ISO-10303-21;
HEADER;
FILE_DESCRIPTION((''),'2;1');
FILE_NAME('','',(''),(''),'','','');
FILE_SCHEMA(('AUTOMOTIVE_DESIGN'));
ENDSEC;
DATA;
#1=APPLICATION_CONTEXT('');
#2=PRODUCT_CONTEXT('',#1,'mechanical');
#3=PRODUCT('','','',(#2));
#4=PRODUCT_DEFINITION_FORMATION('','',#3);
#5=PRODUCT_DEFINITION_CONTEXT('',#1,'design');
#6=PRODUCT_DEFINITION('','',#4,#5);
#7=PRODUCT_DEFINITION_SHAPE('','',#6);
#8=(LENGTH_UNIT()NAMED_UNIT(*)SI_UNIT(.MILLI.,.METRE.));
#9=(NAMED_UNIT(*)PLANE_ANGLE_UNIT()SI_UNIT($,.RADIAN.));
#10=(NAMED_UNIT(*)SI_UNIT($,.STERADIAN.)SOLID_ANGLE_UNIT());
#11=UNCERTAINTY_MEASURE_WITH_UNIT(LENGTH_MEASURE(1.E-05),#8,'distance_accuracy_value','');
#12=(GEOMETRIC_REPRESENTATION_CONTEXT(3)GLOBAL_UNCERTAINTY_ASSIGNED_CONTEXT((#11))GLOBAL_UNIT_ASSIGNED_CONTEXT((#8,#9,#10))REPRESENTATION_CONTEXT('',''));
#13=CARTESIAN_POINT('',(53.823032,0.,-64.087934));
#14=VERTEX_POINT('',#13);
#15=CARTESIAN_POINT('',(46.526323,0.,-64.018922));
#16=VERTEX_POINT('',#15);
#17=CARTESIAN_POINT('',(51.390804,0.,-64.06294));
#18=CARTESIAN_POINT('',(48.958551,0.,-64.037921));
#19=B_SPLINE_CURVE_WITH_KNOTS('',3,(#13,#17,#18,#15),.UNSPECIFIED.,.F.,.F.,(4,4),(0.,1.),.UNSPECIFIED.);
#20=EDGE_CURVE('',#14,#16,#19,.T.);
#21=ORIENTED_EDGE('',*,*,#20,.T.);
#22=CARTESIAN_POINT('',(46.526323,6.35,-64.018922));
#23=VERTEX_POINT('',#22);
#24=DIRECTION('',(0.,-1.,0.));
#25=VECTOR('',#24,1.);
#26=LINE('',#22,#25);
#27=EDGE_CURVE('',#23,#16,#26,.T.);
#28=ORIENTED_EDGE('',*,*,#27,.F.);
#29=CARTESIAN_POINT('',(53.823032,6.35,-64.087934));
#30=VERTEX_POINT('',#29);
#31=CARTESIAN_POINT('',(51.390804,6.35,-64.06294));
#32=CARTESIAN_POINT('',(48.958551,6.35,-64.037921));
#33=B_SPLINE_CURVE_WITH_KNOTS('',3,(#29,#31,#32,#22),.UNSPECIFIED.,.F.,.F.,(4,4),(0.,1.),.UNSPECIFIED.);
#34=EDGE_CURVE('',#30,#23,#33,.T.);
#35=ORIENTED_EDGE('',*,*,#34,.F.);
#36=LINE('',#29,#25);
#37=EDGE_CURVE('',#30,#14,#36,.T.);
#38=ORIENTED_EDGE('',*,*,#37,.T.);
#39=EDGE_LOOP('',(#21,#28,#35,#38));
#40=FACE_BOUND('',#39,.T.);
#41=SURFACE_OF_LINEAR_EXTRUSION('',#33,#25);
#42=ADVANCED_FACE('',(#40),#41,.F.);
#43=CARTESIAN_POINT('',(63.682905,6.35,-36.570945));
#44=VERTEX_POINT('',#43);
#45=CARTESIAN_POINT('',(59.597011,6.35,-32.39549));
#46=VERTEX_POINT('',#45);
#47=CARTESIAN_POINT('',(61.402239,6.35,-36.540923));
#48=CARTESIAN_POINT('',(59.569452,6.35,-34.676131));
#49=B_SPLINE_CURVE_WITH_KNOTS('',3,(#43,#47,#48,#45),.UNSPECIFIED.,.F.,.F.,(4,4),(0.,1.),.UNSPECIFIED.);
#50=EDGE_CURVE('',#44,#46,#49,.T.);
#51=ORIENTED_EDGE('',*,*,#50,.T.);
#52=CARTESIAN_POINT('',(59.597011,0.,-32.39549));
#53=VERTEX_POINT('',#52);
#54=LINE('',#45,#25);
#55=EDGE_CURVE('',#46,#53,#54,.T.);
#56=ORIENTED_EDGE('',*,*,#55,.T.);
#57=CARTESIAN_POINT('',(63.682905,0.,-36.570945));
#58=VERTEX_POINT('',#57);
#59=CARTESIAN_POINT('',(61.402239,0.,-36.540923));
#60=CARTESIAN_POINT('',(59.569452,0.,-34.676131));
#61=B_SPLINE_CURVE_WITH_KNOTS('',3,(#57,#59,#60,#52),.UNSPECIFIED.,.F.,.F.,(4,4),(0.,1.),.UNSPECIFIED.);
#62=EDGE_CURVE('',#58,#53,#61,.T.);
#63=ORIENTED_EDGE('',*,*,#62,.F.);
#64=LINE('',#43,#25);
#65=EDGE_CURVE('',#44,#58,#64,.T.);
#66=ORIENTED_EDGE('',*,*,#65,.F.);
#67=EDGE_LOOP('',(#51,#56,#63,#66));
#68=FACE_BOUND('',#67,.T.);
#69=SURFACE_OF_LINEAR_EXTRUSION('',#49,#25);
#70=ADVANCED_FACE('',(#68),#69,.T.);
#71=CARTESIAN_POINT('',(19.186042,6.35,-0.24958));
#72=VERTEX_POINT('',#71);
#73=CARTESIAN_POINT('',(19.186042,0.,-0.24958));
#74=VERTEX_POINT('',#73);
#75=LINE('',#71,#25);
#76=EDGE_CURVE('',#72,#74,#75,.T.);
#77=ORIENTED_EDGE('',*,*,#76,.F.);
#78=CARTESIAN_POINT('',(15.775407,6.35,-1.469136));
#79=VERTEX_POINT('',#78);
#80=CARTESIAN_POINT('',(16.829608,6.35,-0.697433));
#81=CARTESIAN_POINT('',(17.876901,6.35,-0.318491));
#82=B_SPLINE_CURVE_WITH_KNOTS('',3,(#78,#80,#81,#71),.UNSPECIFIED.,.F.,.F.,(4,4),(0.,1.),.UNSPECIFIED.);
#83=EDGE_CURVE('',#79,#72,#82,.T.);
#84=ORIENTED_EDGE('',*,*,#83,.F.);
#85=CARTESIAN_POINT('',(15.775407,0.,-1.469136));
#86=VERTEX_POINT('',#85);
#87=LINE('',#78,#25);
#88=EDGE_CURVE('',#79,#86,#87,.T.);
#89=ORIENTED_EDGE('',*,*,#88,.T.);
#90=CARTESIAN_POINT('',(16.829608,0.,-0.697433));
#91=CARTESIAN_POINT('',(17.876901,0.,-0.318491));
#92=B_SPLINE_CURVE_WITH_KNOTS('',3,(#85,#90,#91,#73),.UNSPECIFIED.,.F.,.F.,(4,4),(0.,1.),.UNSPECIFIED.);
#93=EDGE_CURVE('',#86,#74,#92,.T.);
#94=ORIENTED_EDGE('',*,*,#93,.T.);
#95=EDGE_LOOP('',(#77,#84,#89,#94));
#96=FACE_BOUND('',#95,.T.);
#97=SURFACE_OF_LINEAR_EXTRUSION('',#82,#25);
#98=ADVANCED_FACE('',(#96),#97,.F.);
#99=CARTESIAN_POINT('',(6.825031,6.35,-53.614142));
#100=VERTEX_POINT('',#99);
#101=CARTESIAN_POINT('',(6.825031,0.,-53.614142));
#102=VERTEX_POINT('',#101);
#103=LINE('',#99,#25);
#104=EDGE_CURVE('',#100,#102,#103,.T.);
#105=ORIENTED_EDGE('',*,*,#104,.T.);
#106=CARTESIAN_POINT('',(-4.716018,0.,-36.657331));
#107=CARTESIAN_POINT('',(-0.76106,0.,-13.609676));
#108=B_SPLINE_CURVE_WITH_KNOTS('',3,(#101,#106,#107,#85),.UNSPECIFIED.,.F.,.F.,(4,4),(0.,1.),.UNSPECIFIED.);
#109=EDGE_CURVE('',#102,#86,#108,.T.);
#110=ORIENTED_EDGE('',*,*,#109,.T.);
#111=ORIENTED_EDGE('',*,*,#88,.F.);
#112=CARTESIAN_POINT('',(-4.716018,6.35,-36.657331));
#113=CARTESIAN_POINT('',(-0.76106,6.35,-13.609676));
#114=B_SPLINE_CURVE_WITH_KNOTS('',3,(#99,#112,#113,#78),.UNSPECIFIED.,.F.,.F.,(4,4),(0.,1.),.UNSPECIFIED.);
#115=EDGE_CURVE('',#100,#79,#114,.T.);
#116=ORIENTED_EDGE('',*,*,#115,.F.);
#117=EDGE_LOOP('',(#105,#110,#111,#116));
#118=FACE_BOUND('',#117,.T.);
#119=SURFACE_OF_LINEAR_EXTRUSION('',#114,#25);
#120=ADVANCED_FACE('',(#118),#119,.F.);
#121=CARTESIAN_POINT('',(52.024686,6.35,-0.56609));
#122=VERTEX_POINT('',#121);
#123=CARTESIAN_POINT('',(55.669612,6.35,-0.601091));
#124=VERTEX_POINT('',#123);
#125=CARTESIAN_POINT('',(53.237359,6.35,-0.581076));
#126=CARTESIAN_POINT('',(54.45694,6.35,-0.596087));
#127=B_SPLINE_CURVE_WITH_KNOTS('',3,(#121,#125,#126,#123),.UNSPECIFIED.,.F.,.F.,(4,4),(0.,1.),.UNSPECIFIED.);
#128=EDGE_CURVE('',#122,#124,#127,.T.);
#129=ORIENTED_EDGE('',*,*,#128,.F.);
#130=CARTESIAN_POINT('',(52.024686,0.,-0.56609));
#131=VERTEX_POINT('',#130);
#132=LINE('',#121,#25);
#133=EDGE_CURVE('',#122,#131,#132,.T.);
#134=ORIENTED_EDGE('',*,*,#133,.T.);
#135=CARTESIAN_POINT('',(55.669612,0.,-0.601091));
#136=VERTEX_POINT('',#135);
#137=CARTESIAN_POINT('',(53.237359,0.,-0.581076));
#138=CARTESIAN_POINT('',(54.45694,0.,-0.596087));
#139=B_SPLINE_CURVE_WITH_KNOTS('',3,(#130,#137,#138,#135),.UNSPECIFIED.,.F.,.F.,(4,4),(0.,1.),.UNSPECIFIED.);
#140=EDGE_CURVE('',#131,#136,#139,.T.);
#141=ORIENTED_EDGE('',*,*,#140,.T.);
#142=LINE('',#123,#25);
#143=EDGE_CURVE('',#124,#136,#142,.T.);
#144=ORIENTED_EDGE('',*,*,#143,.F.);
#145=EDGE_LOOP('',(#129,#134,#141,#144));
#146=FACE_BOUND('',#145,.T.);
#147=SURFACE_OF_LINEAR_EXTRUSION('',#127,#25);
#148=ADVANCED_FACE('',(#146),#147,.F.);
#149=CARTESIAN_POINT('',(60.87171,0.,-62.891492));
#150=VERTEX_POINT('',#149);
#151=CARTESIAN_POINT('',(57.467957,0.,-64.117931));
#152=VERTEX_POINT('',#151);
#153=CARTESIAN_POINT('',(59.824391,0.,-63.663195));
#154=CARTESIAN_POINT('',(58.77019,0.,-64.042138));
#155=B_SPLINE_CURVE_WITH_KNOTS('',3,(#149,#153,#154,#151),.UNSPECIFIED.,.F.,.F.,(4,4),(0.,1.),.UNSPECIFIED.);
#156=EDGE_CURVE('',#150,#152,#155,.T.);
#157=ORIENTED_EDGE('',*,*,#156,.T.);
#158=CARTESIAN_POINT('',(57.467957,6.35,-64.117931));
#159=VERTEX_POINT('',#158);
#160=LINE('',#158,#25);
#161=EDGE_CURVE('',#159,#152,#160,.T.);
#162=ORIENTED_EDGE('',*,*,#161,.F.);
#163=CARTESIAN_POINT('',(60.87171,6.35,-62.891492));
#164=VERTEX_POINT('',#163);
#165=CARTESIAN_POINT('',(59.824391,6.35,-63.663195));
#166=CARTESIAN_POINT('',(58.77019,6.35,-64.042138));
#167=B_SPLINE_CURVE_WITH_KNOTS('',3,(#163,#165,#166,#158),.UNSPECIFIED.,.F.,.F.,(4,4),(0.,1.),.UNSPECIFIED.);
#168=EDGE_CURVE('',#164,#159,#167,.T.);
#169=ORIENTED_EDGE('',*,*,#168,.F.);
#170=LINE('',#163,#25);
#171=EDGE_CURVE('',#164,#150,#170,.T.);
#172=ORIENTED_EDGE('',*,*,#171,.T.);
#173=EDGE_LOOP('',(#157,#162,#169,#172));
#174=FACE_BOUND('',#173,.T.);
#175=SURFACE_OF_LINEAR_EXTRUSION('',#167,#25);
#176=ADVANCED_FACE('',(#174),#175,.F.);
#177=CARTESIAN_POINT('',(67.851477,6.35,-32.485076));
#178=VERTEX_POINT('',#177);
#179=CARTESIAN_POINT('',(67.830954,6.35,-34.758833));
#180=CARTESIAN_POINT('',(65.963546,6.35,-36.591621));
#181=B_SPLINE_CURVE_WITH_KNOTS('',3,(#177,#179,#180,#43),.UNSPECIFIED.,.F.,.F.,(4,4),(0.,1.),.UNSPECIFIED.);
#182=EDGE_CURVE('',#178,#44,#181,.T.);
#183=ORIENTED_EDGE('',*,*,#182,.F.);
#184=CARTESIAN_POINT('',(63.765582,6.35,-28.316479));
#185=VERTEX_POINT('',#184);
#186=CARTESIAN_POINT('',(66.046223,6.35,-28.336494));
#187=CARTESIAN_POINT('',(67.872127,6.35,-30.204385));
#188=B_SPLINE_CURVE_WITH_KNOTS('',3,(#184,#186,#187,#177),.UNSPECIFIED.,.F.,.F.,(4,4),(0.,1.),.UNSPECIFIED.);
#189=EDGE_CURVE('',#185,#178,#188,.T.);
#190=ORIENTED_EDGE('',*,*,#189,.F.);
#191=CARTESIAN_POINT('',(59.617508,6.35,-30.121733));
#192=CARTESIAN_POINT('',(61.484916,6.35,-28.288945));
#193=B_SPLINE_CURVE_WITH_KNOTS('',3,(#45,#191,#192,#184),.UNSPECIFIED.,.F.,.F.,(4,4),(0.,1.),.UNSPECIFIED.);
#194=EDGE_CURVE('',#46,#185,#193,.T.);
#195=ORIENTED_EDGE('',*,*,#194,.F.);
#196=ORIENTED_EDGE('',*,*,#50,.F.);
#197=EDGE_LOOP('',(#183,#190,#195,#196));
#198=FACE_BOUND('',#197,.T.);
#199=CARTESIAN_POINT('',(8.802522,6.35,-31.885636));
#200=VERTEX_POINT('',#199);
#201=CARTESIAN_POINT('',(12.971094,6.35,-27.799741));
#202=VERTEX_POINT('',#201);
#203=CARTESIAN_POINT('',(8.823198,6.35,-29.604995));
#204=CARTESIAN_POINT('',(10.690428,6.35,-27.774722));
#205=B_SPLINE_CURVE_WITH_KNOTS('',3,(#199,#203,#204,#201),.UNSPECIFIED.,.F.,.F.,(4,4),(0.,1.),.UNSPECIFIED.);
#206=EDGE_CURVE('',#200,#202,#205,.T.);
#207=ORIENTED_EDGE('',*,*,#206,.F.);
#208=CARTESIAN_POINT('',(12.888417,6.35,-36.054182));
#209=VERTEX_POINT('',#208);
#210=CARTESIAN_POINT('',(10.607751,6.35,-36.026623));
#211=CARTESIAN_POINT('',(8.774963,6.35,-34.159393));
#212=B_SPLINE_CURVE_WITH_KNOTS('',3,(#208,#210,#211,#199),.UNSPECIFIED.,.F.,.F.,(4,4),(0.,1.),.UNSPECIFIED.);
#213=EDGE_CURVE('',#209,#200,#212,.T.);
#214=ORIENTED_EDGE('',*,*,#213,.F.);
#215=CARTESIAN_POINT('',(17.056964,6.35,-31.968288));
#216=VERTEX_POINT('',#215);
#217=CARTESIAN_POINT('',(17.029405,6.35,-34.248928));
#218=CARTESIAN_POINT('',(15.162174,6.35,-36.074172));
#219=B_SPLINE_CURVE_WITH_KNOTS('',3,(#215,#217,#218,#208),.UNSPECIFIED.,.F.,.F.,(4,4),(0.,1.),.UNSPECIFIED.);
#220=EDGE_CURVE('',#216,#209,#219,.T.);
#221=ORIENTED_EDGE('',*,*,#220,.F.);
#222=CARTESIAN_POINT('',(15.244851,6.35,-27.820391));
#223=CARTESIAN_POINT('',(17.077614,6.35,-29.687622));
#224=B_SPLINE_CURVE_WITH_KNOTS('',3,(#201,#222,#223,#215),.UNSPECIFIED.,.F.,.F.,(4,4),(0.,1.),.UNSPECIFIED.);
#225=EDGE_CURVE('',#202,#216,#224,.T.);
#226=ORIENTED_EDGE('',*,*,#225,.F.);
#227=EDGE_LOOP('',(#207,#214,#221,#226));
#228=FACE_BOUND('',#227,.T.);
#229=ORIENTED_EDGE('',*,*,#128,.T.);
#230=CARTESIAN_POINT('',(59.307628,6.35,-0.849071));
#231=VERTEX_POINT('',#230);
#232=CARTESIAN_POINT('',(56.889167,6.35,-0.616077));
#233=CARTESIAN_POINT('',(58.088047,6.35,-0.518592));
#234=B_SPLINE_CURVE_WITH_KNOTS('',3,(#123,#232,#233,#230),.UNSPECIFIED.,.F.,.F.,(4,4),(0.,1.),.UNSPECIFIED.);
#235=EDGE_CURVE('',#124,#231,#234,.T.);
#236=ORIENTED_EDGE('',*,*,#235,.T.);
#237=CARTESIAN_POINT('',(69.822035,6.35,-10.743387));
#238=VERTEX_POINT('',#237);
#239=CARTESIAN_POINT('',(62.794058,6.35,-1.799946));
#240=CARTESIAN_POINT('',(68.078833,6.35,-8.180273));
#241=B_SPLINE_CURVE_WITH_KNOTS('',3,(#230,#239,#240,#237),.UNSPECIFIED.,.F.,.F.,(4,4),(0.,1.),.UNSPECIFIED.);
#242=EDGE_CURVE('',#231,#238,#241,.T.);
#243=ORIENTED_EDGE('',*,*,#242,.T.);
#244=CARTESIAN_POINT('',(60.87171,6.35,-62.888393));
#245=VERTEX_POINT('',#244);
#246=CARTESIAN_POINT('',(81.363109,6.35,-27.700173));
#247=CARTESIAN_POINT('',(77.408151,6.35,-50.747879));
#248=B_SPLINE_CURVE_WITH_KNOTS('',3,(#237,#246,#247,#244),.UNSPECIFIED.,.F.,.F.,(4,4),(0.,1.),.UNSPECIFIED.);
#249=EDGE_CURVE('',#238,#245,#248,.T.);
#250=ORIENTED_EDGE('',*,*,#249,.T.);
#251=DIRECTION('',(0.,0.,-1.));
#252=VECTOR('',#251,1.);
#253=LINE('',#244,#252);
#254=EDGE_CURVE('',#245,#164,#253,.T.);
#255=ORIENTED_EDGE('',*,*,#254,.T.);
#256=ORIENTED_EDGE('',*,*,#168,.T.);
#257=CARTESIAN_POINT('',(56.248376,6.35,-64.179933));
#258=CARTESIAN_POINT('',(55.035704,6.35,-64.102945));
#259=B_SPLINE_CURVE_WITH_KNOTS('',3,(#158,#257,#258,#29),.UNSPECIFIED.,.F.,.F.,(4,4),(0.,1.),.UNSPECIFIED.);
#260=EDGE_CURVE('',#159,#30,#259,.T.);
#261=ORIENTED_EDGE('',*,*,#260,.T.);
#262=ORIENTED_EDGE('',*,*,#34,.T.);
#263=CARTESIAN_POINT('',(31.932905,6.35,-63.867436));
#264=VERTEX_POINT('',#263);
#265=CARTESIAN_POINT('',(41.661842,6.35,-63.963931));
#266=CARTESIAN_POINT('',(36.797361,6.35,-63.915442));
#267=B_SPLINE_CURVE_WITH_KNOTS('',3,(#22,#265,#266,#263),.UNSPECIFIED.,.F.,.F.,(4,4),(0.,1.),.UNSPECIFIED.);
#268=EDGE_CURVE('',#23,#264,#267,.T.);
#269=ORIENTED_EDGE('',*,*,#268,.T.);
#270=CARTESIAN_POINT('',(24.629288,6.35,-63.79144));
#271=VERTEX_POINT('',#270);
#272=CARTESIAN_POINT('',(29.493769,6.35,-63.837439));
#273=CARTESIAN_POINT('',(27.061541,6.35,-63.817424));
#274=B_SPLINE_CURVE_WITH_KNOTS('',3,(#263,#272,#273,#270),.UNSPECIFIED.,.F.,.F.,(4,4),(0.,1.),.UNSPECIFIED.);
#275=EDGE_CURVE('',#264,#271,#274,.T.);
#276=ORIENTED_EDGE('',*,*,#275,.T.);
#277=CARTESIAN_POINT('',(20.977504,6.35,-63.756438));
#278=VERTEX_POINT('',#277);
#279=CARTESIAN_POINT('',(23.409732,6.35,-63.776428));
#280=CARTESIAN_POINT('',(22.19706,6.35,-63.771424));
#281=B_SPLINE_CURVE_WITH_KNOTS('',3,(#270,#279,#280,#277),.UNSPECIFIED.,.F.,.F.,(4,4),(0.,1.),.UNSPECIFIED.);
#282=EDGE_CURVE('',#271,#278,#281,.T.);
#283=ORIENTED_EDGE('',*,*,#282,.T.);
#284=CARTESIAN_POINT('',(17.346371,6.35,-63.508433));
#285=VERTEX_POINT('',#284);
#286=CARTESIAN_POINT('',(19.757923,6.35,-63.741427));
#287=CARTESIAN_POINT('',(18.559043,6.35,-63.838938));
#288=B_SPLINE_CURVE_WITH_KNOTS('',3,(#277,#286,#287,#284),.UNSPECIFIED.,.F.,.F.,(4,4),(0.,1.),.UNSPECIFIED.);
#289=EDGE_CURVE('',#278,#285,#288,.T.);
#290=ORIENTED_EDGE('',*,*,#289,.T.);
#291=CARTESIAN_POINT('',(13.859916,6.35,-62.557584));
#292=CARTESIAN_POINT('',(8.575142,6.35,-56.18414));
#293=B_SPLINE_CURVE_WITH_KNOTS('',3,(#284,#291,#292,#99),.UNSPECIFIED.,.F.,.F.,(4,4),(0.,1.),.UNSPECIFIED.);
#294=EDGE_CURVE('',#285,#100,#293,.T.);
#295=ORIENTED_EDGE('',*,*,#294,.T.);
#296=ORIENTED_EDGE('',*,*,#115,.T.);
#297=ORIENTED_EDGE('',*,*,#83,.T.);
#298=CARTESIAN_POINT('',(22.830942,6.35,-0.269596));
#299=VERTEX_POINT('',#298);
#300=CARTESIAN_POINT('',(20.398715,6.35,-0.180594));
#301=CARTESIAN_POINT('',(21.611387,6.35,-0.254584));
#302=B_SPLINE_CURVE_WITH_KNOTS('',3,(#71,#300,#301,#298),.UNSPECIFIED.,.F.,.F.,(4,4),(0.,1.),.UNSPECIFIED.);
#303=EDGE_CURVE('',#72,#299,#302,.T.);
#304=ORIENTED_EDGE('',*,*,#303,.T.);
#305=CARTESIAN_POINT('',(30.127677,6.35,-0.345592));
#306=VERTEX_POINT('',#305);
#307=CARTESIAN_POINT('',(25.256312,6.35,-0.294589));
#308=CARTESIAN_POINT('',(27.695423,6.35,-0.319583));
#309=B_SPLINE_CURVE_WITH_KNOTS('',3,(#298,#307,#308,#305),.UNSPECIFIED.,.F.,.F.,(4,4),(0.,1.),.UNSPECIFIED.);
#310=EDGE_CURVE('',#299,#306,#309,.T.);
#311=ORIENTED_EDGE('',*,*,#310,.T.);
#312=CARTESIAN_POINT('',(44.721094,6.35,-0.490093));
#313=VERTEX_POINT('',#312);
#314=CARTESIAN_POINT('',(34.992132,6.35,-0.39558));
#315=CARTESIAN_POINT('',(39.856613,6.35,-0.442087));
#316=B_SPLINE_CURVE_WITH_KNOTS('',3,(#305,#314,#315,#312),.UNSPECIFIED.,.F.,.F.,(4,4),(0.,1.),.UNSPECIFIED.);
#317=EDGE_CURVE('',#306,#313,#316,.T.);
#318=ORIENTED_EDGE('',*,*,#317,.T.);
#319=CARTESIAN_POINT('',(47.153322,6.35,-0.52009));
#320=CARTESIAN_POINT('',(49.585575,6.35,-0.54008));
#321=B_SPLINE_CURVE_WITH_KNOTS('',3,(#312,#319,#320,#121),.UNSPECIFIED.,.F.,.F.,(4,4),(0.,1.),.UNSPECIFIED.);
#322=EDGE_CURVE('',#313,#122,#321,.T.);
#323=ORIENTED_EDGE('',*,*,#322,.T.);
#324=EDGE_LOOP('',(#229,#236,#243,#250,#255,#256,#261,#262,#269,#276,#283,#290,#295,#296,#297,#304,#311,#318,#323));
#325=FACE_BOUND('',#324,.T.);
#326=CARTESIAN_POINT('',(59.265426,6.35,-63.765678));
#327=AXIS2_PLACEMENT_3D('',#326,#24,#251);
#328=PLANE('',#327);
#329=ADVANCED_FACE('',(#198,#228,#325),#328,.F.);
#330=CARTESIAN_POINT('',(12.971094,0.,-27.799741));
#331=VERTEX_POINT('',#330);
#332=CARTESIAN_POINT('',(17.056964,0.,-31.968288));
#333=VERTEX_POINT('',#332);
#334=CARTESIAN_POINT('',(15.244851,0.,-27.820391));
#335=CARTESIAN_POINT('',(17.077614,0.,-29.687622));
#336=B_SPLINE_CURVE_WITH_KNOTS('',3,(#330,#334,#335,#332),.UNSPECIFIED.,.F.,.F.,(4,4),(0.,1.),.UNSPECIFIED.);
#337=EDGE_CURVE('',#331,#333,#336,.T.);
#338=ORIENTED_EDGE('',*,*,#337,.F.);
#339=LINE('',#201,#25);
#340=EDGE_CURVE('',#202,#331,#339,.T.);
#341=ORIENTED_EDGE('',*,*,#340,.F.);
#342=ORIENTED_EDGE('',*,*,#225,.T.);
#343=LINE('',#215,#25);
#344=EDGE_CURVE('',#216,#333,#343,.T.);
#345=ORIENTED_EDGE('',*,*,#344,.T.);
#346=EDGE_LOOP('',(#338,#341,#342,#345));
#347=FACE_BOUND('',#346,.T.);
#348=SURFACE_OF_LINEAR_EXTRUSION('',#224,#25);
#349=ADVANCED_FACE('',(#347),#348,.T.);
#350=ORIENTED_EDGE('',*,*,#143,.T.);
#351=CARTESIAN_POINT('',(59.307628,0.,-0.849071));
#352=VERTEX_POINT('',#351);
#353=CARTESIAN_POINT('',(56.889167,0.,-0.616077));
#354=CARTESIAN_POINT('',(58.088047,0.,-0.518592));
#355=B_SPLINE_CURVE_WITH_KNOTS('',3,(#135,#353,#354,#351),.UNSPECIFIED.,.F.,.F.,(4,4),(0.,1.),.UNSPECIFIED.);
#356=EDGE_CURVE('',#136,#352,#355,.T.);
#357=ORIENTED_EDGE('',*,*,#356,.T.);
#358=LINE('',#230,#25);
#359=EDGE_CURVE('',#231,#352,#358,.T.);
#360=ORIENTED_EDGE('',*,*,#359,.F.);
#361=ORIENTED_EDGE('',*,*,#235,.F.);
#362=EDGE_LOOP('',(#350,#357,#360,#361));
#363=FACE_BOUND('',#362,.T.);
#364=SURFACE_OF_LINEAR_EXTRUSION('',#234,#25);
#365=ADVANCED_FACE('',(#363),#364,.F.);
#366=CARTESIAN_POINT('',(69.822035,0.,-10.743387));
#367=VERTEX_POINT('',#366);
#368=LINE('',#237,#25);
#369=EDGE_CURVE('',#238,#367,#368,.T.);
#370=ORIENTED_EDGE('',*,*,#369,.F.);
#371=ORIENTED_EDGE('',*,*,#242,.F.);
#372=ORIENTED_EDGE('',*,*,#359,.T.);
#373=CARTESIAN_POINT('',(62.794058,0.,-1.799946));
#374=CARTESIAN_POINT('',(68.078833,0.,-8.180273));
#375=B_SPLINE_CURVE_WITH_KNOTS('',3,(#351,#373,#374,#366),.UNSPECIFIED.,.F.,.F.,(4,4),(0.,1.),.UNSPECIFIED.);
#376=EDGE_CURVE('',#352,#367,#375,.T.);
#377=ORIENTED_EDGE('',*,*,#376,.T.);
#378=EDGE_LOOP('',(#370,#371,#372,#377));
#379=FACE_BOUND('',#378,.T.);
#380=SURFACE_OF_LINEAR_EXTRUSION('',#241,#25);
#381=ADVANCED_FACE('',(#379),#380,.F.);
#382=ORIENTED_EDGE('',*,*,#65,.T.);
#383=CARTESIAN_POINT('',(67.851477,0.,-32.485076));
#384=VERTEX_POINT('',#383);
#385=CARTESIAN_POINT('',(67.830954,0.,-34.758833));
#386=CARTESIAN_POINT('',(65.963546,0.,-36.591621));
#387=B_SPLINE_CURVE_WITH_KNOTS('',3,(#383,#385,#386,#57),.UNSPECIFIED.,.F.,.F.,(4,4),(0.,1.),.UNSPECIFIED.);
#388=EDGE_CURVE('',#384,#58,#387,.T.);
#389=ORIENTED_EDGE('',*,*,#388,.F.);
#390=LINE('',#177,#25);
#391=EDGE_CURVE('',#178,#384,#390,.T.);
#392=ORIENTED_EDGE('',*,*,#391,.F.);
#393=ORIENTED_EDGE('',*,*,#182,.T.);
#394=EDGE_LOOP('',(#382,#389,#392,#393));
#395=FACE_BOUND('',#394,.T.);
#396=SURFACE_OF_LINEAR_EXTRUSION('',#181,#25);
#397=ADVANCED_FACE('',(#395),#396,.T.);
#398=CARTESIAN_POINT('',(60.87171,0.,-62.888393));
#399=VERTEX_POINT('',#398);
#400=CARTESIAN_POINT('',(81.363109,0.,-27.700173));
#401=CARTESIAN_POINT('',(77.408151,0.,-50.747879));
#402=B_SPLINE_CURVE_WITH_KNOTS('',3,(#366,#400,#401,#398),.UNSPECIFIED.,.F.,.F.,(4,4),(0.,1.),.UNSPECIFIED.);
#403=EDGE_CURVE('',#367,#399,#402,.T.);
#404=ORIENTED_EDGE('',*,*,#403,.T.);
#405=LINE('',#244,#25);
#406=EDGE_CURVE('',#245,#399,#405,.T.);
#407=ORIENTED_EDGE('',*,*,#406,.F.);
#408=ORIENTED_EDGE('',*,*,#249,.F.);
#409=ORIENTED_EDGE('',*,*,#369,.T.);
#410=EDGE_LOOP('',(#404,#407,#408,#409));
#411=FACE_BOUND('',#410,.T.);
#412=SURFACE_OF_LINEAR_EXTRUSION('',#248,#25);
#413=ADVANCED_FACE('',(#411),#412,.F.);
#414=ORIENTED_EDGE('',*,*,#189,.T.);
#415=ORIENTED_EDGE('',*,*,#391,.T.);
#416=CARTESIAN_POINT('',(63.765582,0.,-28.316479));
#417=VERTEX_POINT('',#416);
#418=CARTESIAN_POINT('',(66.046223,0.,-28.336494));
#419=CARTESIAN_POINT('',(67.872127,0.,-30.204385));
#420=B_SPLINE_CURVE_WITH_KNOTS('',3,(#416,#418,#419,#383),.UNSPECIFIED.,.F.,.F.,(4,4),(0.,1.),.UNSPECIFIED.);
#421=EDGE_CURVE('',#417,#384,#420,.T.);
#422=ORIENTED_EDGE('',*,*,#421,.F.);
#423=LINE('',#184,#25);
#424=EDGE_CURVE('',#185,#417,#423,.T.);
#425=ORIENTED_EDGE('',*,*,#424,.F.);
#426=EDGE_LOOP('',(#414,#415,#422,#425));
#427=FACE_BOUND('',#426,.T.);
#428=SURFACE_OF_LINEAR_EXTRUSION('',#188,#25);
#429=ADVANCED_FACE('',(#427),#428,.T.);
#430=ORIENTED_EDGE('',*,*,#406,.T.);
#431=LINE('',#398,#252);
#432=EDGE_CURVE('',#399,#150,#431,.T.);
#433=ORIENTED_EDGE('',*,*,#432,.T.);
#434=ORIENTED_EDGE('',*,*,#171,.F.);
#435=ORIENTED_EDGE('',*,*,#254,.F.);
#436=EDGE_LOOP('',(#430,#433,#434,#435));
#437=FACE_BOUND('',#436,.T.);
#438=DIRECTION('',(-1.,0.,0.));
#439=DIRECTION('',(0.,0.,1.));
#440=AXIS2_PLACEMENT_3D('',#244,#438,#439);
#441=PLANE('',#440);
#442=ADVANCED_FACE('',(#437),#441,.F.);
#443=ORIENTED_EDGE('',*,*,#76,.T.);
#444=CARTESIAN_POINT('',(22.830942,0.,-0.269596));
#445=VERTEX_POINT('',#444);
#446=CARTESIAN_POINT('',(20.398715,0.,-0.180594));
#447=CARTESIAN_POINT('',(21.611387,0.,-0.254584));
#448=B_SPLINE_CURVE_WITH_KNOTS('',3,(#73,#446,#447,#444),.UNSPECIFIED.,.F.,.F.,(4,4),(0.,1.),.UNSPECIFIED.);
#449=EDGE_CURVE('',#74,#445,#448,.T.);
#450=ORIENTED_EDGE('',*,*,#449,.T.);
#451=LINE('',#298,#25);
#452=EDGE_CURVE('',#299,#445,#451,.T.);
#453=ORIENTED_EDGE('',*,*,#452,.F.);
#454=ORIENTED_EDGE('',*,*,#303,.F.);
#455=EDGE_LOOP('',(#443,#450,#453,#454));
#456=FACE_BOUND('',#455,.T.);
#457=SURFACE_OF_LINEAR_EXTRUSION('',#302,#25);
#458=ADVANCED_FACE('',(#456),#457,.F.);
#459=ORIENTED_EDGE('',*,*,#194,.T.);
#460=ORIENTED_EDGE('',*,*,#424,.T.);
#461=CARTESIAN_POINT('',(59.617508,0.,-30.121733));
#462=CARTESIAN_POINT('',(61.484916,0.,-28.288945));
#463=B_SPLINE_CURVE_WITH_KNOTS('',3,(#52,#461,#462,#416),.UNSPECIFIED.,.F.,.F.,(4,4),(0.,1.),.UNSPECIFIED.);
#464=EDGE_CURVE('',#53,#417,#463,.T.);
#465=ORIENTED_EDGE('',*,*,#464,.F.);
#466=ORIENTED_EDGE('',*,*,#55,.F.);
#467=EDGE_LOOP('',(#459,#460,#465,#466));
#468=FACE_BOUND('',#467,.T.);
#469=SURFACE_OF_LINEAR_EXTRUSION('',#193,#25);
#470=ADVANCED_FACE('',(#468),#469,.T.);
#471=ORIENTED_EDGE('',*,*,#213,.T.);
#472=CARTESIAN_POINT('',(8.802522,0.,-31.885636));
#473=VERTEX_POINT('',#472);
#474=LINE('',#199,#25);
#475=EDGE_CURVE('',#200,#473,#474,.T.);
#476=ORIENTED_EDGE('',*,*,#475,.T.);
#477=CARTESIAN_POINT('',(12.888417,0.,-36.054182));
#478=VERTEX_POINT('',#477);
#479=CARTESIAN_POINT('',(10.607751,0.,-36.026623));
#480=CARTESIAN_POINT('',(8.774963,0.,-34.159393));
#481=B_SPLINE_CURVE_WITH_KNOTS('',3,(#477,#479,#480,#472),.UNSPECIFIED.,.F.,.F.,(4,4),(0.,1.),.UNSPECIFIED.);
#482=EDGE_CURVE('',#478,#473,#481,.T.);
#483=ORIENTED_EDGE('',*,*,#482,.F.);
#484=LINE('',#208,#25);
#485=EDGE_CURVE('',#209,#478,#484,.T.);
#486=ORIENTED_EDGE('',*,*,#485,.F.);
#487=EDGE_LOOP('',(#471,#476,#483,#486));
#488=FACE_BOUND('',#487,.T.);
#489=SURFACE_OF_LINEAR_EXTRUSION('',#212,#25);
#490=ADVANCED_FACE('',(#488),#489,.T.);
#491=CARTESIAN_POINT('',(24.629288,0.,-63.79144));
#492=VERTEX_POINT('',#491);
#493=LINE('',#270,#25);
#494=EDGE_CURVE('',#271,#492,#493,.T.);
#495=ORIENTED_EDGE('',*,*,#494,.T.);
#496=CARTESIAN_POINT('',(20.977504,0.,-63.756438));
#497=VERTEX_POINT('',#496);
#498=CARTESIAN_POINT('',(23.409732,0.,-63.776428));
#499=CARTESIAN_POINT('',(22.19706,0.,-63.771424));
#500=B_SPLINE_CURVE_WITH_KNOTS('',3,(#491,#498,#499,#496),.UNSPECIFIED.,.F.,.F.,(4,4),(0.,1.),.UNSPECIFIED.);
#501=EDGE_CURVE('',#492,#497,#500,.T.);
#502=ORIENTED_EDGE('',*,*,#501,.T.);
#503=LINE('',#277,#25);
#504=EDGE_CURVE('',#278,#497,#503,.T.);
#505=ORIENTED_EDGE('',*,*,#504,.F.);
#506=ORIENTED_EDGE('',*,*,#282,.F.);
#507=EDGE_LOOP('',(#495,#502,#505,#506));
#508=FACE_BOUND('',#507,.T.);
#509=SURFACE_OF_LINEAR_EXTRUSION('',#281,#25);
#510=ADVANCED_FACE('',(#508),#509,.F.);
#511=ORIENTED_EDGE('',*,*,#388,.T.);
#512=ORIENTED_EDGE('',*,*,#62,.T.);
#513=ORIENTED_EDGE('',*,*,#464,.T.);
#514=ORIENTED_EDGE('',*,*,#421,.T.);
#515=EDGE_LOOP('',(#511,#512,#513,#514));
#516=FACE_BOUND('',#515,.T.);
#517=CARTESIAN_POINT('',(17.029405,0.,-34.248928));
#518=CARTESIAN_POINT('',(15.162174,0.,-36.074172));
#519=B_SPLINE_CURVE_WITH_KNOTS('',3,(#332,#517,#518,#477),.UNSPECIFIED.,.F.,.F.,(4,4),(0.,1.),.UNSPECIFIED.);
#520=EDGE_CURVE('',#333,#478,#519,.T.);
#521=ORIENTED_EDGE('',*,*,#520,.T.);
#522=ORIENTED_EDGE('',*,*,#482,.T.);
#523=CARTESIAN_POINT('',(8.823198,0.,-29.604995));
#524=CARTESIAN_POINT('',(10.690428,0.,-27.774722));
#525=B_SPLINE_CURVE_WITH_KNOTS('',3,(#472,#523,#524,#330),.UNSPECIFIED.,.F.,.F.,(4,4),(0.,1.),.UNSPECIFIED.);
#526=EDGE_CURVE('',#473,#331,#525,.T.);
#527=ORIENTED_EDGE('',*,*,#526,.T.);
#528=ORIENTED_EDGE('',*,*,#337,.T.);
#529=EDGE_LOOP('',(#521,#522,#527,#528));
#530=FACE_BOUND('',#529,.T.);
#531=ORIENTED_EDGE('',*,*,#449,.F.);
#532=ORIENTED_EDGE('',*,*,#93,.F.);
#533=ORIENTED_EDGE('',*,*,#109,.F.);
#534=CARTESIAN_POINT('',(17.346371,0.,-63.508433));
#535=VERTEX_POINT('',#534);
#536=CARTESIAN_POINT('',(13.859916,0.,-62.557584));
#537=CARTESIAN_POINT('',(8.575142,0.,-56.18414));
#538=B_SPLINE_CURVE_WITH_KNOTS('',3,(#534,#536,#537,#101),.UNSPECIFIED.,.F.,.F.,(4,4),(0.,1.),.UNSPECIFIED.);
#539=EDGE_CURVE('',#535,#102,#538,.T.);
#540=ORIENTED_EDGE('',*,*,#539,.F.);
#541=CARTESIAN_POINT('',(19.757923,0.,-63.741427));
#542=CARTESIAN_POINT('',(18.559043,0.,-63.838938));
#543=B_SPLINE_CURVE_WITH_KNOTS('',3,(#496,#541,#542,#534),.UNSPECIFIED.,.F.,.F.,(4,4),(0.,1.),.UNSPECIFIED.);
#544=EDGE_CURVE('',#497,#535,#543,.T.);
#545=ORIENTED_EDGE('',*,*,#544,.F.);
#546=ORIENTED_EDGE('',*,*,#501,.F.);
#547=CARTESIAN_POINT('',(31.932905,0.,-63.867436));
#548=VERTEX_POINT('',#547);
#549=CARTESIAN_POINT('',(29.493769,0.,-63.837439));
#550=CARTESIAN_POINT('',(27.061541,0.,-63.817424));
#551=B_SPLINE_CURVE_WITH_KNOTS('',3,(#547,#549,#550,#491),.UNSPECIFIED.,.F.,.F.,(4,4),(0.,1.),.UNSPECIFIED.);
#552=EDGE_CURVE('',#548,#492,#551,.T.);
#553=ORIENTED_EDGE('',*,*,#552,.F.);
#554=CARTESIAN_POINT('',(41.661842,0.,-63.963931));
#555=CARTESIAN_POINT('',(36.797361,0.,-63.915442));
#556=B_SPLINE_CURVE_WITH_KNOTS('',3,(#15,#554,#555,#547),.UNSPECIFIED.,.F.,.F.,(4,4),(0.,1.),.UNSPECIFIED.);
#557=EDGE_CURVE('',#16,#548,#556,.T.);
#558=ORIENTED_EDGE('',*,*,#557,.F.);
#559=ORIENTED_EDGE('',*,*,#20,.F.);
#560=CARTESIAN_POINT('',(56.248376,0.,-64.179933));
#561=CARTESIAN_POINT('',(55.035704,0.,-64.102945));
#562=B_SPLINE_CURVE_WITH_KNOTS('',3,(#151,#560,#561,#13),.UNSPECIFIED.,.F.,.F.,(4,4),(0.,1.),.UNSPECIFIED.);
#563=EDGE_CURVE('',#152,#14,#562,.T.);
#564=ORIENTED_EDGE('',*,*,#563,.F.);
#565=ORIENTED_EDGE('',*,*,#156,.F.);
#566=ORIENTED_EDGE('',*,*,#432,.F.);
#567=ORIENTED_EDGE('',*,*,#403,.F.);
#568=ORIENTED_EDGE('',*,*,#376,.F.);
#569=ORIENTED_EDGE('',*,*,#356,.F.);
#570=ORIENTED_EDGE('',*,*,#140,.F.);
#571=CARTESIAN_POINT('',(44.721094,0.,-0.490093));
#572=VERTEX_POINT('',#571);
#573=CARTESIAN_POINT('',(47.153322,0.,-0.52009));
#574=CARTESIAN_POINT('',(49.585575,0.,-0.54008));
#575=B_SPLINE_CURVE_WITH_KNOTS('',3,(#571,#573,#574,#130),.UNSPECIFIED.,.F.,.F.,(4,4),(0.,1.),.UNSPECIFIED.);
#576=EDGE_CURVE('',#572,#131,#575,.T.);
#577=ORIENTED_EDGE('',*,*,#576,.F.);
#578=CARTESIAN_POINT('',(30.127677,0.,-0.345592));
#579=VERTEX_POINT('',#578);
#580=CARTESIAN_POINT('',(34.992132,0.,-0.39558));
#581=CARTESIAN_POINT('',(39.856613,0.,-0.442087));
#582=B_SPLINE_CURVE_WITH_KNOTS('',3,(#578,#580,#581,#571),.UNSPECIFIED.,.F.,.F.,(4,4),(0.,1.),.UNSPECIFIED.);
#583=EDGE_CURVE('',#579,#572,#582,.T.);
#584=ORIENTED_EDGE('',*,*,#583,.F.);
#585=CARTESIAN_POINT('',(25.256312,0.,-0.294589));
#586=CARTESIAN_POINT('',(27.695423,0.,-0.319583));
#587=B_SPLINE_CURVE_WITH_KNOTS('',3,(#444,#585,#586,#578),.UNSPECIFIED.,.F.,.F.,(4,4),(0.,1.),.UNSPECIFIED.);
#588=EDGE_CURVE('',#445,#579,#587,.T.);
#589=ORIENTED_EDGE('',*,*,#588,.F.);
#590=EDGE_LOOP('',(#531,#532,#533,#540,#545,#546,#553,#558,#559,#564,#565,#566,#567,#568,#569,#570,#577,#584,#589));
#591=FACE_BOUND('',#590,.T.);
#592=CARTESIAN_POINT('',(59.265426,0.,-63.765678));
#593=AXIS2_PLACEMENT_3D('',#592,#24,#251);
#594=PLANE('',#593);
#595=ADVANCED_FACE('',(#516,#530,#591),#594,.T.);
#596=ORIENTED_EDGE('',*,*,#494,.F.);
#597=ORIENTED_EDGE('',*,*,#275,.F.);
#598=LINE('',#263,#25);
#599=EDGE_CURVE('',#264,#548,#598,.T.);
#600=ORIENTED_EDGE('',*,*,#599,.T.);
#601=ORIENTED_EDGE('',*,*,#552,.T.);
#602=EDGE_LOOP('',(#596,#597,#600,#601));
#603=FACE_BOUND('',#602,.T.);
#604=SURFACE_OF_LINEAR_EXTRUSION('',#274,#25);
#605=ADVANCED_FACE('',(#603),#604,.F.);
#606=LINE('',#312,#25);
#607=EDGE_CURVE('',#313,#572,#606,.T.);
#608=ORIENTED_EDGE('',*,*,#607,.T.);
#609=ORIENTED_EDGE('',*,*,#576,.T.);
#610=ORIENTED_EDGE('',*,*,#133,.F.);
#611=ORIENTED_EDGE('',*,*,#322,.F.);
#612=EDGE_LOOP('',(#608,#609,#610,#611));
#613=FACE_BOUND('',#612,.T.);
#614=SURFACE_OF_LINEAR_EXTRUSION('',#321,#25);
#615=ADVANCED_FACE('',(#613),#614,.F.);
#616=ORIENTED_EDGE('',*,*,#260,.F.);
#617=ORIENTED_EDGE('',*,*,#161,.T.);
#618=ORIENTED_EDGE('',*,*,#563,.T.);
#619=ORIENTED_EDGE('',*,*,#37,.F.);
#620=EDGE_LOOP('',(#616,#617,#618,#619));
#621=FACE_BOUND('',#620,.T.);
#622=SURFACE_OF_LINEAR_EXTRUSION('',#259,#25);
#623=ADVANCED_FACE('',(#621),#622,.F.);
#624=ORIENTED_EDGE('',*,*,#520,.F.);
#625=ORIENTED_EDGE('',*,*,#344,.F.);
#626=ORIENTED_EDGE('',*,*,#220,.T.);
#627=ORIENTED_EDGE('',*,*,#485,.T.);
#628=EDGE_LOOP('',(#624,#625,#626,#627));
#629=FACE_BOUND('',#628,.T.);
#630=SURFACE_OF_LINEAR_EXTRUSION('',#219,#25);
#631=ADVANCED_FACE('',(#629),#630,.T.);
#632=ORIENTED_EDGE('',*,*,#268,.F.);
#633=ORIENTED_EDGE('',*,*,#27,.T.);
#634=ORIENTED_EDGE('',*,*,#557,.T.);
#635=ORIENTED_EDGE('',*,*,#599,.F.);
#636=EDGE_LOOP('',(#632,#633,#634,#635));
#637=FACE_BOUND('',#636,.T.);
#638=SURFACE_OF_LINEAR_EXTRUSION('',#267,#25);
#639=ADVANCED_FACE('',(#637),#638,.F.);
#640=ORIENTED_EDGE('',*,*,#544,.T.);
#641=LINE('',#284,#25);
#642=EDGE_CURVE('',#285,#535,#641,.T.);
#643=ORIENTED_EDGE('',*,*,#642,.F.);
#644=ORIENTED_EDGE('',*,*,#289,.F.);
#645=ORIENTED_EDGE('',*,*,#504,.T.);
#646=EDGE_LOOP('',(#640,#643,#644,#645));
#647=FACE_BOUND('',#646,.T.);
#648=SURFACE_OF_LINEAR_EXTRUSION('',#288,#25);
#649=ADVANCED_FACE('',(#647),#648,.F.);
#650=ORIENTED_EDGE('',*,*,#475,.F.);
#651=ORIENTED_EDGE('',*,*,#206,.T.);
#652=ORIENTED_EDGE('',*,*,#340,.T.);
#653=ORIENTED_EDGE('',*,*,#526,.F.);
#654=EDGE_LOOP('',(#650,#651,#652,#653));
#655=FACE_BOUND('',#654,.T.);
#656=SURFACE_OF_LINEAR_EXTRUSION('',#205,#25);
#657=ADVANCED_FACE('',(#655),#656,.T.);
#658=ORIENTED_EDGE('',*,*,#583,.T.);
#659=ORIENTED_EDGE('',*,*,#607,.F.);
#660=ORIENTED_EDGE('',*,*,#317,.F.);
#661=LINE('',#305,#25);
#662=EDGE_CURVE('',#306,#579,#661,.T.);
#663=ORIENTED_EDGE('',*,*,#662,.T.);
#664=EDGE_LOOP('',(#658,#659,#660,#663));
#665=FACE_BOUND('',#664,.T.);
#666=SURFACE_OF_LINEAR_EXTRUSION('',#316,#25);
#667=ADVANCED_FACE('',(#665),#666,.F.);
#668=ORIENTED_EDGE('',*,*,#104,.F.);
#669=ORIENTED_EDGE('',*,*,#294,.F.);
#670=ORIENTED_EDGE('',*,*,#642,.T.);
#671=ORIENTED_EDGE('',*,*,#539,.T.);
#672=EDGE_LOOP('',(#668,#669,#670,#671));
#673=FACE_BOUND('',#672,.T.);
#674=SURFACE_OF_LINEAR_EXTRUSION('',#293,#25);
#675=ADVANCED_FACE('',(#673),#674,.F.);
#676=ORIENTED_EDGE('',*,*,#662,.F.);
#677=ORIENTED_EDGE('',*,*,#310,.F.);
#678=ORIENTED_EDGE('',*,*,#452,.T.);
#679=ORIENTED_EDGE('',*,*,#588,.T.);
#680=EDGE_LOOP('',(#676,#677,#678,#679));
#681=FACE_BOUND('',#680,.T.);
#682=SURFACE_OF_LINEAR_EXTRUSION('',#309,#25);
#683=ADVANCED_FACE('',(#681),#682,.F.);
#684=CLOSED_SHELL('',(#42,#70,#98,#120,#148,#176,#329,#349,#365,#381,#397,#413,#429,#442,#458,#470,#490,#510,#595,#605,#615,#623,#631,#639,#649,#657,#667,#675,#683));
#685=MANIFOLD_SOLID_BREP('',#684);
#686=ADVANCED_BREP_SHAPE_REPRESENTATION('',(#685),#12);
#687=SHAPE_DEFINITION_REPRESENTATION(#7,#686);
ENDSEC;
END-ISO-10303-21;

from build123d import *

# Parameters (mm, degrees)
BOSS_EXTRUDE1_DEPTH = 6.35


with BuildPart() as part:
    # Sketch1 → Boss-Extrude1 (new body)
    with BuildSketch(Plane(origin=(0, 0, 0), x_dir=(1, 0, 0), z_dir=(0, 1, 0))):
        with BuildLine():
            Line((60.8717096, 62.8883934), (60.8717096, 62.8914922))
            add(Edge.make_bspline(
                [(60.8717096, 62.8914922), (59.8243914, 63.663195), (58.7701898, 64.0421376), (57.4679572, 64.1179312)],
                knots=[0, 0, 0, 0, 1, 1, 1, 1], degree=3))
            add(Edge.make_bspline(
                [(57.4679572, 64.1179312), (56.2483762, 64.1799326), (55.035704, 64.1029452), (53.8230318, 64.0879338)],
                knots=[0, 0, 0, 0, 1, 1, 1, 1], degree=3))
            add(Edge.make_bspline(
                [(53.8230318, 64.0879338), (51.390804, 64.0629402), (48.9585508, 64.0379212), (46.526323, 64.018922)],
                knots=[0, 0, 0, 0, 1, 1, 1, 1], degree=3))
            add(Edge.make_bspline(
                [(46.526323, 64.018922), (41.661842, 63.963931), (36.797361, 63.9154424), (31.9329054, 63.8674364)],
                knots=[0, 0, 0, 0, 1, 1, 1, 1], degree=3))
            add(Edge.make_bspline(
                [(31.9329054, 63.8674364), (29.4937688, 63.837439), (27.061541, 63.8174238), (24.6292878, 63.7914396)],
                knots=[0, 0, 0, 0, 1, 1, 1, 1], degree=3))
            add(Edge.make_bspline(
                [(24.6292878, 63.7914396), (23.4097322, 63.7764282), (22.19706, 63.7714244), (20.9775044, 63.7564384)],
                knots=[0, 0, 0, 0, 1, 1, 1, 1], degree=3))
            add(Edge.make_bspline(
                [(20.9775044, 63.7564384), (19.7579234, 63.741427), (18.5590434, 63.8389376), (17.3463712, 63.5084328)],
                knots=[0, 0, 0, 0, 1, 1, 1, 1], degree=3))
            add(Edge.make_bspline(
                [(17.3463712, 63.5084328), (13.8599164, 62.5575838), (8.5751416, 56.1841396), (6.8250308, 53.6141422)],
                knots=[0, 0, 0, 0, 1, 1, 1, 1], degree=3))
            add(Edge.make_bspline(
                [(6.8250308, 53.6141422), (-4.716018, 36.6573308), (-0.7610602, 13.6096756), (15.7754066, 1.469136)],
                knots=[0, 0, 0, 0, 1, 1, 1, 1], degree=3))
            add(Edge.make_bspline(
                [(15.7754066, 1.469136), (16.8296082, 0.6974332), (17.876901, 0.3184906), (19.1860424, 0.2495804)],
                knots=[0, 0, 0, 0, 1, 1, 1, 1], degree=3))
            add(Edge.make_bspline(
                [(19.1860424, 0.2495804), (20.3987146, 0.180594), (21.6113868, 0.2545842), (22.8309424, 0.2695956)],
                knots=[0, 0, 0, 0, 1, 1, 1, 1], degree=3))
            add(Edge.make_bspline(
                [(22.8309424, 0.2695956), (25.2563122, 0.2945892), (27.6954234, 0.3195828), (30.1276766, 0.3455924)],
                knots=[0, 0, 0, 0, 1, 1, 1, 1], degree=3))
            add(Edge.make_bspline(
                [(30.1276766, 0.3455924), (34.9921322, 0.3955796), (39.8566132, 0.442087), (44.7210942, 0.490093)],
                knots=[0, 0, 0, 0, 1, 1, 1, 1], degree=3))
            add(Edge.make_bspline(
                [(44.7210942, 0.490093), (47.153322, 0.5200904), (49.5855752, 0.5400802), (52.0246864, 0.5660898)],
                knots=[0, 0, 0, 0, 1, 1, 1, 1], degree=3))
            add(Edge.make_bspline(
                [(52.0246864, 0.5660898), (53.2373586, 0.5810758), (54.4569396, 0.5960872), (55.6696118, 0.601091)],
                knots=[0, 0, 0, 0, 1, 1, 1, 1], degree=3))
            add(Edge.make_bspline(
                [(55.6696118, 0.601091), (56.8891674, 0.616077), (58.0880474, 0.5185918), (59.3076284, 0.8490712)],
                knots=[0, 0, 0, 0, 1, 1, 1, 1], degree=3))
            add(Edge.make_bspline(
                [(59.3076284, 0.8490712), (62.7940578, 1.7999456), (68.0788326, 8.1802732), (69.8220346, 10.7433872)],
                knots=[0, 0, 0, 0, 1, 1, 1, 1], degree=3))
            add(Edge.make_bspline(
                [(69.8220346, 10.7433872), (81.3631088, 27.7001732), (77.408151, 50.7478792), (60.8717096, 62.8883934)],
                knots=[0, 0, 0, 0, 1, 1, 1, 1], degree=3))
        make_face()
        with BuildLine():
            add(Edge.make_bspline(
                [(59.5970106, 32.3954902), (59.6175084, 30.121733), (61.4849164, 28.2889452), (63.7655824, 28.3164788)],
                knots=[0, 0, 0, 0, 1, 1, 1, 1], degree=3))
            add(Edge.make_bspline(
                [(63.7655824, 28.3164788), (66.046223, 28.336494), (67.8721274, 30.2043846), (67.8514772, 32.485076)],
                knots=[0, 0, 0, 0, 1, 1, 1, 1], degree=3))
            add(Edge.make_bspline(
                [(67.8514772, 32.485076), (67.830954, 34.7588332), (65.963546, 36.591621), (63.6829054, 36.5709454)],
                knots=[0, 0, 0, 0, 1, 1, 1, 1], degree=3))
            add(Edge.make_bspline(
                [(63.6829054, 36.5709454), (61.4022394, 36.5409226), (59.5694516, 34.6761308), (59.5970106, 32.3954902)],
                knots=[0, 0, 0, 0, 1, 1, 1, 1], degree=3))
        make_face(mode=Mode.SUBTRACT)
        with BuildLine():
            add(Edge.make_bspline(
                [(17.0569636, 31.9682876), (17.0776138, 29.6876216), (15.2448514, 27.8203914), (12.9710942, 27.7997412)],
                knots=[0, 0, 0, 0, 1, 1, 1, 1], degree=3))
            add(Edge.make_bspline(
                [(12.9710942, 27.7997412), (10.6904282, 27.7747222), (8.823198, 29.6049954), (8.8025224, 31.885636)],
                knots=[0, 0, 0, 0, 1, 1, 1, 1], degree=3))
            add(Edge.make_bspline(
                [(8.8025224, 31.885636), (8.7749634, 34.1593932), (10.6077512, 36.0266234), (12.8884172, 36.0541824)],
                knots=[0, 0, 0, 0, 1, 1, 1, 1], degree=3))
            add(Edge.make_bspline(
                [(12.8884172, 36.0541824), (15.1621744, 36.0741722), (17.0294046, 34.2489282), (17.0569636, 31.9682876)],
                knots=[0, 0, 0, 0, 1, 1, 1, 1], degree=3))
        make_face(mode=Mode.SUBTRACT)
    extrude(amount=BOSS_EXTRUDE1_DEPTH)


solid = part.part
